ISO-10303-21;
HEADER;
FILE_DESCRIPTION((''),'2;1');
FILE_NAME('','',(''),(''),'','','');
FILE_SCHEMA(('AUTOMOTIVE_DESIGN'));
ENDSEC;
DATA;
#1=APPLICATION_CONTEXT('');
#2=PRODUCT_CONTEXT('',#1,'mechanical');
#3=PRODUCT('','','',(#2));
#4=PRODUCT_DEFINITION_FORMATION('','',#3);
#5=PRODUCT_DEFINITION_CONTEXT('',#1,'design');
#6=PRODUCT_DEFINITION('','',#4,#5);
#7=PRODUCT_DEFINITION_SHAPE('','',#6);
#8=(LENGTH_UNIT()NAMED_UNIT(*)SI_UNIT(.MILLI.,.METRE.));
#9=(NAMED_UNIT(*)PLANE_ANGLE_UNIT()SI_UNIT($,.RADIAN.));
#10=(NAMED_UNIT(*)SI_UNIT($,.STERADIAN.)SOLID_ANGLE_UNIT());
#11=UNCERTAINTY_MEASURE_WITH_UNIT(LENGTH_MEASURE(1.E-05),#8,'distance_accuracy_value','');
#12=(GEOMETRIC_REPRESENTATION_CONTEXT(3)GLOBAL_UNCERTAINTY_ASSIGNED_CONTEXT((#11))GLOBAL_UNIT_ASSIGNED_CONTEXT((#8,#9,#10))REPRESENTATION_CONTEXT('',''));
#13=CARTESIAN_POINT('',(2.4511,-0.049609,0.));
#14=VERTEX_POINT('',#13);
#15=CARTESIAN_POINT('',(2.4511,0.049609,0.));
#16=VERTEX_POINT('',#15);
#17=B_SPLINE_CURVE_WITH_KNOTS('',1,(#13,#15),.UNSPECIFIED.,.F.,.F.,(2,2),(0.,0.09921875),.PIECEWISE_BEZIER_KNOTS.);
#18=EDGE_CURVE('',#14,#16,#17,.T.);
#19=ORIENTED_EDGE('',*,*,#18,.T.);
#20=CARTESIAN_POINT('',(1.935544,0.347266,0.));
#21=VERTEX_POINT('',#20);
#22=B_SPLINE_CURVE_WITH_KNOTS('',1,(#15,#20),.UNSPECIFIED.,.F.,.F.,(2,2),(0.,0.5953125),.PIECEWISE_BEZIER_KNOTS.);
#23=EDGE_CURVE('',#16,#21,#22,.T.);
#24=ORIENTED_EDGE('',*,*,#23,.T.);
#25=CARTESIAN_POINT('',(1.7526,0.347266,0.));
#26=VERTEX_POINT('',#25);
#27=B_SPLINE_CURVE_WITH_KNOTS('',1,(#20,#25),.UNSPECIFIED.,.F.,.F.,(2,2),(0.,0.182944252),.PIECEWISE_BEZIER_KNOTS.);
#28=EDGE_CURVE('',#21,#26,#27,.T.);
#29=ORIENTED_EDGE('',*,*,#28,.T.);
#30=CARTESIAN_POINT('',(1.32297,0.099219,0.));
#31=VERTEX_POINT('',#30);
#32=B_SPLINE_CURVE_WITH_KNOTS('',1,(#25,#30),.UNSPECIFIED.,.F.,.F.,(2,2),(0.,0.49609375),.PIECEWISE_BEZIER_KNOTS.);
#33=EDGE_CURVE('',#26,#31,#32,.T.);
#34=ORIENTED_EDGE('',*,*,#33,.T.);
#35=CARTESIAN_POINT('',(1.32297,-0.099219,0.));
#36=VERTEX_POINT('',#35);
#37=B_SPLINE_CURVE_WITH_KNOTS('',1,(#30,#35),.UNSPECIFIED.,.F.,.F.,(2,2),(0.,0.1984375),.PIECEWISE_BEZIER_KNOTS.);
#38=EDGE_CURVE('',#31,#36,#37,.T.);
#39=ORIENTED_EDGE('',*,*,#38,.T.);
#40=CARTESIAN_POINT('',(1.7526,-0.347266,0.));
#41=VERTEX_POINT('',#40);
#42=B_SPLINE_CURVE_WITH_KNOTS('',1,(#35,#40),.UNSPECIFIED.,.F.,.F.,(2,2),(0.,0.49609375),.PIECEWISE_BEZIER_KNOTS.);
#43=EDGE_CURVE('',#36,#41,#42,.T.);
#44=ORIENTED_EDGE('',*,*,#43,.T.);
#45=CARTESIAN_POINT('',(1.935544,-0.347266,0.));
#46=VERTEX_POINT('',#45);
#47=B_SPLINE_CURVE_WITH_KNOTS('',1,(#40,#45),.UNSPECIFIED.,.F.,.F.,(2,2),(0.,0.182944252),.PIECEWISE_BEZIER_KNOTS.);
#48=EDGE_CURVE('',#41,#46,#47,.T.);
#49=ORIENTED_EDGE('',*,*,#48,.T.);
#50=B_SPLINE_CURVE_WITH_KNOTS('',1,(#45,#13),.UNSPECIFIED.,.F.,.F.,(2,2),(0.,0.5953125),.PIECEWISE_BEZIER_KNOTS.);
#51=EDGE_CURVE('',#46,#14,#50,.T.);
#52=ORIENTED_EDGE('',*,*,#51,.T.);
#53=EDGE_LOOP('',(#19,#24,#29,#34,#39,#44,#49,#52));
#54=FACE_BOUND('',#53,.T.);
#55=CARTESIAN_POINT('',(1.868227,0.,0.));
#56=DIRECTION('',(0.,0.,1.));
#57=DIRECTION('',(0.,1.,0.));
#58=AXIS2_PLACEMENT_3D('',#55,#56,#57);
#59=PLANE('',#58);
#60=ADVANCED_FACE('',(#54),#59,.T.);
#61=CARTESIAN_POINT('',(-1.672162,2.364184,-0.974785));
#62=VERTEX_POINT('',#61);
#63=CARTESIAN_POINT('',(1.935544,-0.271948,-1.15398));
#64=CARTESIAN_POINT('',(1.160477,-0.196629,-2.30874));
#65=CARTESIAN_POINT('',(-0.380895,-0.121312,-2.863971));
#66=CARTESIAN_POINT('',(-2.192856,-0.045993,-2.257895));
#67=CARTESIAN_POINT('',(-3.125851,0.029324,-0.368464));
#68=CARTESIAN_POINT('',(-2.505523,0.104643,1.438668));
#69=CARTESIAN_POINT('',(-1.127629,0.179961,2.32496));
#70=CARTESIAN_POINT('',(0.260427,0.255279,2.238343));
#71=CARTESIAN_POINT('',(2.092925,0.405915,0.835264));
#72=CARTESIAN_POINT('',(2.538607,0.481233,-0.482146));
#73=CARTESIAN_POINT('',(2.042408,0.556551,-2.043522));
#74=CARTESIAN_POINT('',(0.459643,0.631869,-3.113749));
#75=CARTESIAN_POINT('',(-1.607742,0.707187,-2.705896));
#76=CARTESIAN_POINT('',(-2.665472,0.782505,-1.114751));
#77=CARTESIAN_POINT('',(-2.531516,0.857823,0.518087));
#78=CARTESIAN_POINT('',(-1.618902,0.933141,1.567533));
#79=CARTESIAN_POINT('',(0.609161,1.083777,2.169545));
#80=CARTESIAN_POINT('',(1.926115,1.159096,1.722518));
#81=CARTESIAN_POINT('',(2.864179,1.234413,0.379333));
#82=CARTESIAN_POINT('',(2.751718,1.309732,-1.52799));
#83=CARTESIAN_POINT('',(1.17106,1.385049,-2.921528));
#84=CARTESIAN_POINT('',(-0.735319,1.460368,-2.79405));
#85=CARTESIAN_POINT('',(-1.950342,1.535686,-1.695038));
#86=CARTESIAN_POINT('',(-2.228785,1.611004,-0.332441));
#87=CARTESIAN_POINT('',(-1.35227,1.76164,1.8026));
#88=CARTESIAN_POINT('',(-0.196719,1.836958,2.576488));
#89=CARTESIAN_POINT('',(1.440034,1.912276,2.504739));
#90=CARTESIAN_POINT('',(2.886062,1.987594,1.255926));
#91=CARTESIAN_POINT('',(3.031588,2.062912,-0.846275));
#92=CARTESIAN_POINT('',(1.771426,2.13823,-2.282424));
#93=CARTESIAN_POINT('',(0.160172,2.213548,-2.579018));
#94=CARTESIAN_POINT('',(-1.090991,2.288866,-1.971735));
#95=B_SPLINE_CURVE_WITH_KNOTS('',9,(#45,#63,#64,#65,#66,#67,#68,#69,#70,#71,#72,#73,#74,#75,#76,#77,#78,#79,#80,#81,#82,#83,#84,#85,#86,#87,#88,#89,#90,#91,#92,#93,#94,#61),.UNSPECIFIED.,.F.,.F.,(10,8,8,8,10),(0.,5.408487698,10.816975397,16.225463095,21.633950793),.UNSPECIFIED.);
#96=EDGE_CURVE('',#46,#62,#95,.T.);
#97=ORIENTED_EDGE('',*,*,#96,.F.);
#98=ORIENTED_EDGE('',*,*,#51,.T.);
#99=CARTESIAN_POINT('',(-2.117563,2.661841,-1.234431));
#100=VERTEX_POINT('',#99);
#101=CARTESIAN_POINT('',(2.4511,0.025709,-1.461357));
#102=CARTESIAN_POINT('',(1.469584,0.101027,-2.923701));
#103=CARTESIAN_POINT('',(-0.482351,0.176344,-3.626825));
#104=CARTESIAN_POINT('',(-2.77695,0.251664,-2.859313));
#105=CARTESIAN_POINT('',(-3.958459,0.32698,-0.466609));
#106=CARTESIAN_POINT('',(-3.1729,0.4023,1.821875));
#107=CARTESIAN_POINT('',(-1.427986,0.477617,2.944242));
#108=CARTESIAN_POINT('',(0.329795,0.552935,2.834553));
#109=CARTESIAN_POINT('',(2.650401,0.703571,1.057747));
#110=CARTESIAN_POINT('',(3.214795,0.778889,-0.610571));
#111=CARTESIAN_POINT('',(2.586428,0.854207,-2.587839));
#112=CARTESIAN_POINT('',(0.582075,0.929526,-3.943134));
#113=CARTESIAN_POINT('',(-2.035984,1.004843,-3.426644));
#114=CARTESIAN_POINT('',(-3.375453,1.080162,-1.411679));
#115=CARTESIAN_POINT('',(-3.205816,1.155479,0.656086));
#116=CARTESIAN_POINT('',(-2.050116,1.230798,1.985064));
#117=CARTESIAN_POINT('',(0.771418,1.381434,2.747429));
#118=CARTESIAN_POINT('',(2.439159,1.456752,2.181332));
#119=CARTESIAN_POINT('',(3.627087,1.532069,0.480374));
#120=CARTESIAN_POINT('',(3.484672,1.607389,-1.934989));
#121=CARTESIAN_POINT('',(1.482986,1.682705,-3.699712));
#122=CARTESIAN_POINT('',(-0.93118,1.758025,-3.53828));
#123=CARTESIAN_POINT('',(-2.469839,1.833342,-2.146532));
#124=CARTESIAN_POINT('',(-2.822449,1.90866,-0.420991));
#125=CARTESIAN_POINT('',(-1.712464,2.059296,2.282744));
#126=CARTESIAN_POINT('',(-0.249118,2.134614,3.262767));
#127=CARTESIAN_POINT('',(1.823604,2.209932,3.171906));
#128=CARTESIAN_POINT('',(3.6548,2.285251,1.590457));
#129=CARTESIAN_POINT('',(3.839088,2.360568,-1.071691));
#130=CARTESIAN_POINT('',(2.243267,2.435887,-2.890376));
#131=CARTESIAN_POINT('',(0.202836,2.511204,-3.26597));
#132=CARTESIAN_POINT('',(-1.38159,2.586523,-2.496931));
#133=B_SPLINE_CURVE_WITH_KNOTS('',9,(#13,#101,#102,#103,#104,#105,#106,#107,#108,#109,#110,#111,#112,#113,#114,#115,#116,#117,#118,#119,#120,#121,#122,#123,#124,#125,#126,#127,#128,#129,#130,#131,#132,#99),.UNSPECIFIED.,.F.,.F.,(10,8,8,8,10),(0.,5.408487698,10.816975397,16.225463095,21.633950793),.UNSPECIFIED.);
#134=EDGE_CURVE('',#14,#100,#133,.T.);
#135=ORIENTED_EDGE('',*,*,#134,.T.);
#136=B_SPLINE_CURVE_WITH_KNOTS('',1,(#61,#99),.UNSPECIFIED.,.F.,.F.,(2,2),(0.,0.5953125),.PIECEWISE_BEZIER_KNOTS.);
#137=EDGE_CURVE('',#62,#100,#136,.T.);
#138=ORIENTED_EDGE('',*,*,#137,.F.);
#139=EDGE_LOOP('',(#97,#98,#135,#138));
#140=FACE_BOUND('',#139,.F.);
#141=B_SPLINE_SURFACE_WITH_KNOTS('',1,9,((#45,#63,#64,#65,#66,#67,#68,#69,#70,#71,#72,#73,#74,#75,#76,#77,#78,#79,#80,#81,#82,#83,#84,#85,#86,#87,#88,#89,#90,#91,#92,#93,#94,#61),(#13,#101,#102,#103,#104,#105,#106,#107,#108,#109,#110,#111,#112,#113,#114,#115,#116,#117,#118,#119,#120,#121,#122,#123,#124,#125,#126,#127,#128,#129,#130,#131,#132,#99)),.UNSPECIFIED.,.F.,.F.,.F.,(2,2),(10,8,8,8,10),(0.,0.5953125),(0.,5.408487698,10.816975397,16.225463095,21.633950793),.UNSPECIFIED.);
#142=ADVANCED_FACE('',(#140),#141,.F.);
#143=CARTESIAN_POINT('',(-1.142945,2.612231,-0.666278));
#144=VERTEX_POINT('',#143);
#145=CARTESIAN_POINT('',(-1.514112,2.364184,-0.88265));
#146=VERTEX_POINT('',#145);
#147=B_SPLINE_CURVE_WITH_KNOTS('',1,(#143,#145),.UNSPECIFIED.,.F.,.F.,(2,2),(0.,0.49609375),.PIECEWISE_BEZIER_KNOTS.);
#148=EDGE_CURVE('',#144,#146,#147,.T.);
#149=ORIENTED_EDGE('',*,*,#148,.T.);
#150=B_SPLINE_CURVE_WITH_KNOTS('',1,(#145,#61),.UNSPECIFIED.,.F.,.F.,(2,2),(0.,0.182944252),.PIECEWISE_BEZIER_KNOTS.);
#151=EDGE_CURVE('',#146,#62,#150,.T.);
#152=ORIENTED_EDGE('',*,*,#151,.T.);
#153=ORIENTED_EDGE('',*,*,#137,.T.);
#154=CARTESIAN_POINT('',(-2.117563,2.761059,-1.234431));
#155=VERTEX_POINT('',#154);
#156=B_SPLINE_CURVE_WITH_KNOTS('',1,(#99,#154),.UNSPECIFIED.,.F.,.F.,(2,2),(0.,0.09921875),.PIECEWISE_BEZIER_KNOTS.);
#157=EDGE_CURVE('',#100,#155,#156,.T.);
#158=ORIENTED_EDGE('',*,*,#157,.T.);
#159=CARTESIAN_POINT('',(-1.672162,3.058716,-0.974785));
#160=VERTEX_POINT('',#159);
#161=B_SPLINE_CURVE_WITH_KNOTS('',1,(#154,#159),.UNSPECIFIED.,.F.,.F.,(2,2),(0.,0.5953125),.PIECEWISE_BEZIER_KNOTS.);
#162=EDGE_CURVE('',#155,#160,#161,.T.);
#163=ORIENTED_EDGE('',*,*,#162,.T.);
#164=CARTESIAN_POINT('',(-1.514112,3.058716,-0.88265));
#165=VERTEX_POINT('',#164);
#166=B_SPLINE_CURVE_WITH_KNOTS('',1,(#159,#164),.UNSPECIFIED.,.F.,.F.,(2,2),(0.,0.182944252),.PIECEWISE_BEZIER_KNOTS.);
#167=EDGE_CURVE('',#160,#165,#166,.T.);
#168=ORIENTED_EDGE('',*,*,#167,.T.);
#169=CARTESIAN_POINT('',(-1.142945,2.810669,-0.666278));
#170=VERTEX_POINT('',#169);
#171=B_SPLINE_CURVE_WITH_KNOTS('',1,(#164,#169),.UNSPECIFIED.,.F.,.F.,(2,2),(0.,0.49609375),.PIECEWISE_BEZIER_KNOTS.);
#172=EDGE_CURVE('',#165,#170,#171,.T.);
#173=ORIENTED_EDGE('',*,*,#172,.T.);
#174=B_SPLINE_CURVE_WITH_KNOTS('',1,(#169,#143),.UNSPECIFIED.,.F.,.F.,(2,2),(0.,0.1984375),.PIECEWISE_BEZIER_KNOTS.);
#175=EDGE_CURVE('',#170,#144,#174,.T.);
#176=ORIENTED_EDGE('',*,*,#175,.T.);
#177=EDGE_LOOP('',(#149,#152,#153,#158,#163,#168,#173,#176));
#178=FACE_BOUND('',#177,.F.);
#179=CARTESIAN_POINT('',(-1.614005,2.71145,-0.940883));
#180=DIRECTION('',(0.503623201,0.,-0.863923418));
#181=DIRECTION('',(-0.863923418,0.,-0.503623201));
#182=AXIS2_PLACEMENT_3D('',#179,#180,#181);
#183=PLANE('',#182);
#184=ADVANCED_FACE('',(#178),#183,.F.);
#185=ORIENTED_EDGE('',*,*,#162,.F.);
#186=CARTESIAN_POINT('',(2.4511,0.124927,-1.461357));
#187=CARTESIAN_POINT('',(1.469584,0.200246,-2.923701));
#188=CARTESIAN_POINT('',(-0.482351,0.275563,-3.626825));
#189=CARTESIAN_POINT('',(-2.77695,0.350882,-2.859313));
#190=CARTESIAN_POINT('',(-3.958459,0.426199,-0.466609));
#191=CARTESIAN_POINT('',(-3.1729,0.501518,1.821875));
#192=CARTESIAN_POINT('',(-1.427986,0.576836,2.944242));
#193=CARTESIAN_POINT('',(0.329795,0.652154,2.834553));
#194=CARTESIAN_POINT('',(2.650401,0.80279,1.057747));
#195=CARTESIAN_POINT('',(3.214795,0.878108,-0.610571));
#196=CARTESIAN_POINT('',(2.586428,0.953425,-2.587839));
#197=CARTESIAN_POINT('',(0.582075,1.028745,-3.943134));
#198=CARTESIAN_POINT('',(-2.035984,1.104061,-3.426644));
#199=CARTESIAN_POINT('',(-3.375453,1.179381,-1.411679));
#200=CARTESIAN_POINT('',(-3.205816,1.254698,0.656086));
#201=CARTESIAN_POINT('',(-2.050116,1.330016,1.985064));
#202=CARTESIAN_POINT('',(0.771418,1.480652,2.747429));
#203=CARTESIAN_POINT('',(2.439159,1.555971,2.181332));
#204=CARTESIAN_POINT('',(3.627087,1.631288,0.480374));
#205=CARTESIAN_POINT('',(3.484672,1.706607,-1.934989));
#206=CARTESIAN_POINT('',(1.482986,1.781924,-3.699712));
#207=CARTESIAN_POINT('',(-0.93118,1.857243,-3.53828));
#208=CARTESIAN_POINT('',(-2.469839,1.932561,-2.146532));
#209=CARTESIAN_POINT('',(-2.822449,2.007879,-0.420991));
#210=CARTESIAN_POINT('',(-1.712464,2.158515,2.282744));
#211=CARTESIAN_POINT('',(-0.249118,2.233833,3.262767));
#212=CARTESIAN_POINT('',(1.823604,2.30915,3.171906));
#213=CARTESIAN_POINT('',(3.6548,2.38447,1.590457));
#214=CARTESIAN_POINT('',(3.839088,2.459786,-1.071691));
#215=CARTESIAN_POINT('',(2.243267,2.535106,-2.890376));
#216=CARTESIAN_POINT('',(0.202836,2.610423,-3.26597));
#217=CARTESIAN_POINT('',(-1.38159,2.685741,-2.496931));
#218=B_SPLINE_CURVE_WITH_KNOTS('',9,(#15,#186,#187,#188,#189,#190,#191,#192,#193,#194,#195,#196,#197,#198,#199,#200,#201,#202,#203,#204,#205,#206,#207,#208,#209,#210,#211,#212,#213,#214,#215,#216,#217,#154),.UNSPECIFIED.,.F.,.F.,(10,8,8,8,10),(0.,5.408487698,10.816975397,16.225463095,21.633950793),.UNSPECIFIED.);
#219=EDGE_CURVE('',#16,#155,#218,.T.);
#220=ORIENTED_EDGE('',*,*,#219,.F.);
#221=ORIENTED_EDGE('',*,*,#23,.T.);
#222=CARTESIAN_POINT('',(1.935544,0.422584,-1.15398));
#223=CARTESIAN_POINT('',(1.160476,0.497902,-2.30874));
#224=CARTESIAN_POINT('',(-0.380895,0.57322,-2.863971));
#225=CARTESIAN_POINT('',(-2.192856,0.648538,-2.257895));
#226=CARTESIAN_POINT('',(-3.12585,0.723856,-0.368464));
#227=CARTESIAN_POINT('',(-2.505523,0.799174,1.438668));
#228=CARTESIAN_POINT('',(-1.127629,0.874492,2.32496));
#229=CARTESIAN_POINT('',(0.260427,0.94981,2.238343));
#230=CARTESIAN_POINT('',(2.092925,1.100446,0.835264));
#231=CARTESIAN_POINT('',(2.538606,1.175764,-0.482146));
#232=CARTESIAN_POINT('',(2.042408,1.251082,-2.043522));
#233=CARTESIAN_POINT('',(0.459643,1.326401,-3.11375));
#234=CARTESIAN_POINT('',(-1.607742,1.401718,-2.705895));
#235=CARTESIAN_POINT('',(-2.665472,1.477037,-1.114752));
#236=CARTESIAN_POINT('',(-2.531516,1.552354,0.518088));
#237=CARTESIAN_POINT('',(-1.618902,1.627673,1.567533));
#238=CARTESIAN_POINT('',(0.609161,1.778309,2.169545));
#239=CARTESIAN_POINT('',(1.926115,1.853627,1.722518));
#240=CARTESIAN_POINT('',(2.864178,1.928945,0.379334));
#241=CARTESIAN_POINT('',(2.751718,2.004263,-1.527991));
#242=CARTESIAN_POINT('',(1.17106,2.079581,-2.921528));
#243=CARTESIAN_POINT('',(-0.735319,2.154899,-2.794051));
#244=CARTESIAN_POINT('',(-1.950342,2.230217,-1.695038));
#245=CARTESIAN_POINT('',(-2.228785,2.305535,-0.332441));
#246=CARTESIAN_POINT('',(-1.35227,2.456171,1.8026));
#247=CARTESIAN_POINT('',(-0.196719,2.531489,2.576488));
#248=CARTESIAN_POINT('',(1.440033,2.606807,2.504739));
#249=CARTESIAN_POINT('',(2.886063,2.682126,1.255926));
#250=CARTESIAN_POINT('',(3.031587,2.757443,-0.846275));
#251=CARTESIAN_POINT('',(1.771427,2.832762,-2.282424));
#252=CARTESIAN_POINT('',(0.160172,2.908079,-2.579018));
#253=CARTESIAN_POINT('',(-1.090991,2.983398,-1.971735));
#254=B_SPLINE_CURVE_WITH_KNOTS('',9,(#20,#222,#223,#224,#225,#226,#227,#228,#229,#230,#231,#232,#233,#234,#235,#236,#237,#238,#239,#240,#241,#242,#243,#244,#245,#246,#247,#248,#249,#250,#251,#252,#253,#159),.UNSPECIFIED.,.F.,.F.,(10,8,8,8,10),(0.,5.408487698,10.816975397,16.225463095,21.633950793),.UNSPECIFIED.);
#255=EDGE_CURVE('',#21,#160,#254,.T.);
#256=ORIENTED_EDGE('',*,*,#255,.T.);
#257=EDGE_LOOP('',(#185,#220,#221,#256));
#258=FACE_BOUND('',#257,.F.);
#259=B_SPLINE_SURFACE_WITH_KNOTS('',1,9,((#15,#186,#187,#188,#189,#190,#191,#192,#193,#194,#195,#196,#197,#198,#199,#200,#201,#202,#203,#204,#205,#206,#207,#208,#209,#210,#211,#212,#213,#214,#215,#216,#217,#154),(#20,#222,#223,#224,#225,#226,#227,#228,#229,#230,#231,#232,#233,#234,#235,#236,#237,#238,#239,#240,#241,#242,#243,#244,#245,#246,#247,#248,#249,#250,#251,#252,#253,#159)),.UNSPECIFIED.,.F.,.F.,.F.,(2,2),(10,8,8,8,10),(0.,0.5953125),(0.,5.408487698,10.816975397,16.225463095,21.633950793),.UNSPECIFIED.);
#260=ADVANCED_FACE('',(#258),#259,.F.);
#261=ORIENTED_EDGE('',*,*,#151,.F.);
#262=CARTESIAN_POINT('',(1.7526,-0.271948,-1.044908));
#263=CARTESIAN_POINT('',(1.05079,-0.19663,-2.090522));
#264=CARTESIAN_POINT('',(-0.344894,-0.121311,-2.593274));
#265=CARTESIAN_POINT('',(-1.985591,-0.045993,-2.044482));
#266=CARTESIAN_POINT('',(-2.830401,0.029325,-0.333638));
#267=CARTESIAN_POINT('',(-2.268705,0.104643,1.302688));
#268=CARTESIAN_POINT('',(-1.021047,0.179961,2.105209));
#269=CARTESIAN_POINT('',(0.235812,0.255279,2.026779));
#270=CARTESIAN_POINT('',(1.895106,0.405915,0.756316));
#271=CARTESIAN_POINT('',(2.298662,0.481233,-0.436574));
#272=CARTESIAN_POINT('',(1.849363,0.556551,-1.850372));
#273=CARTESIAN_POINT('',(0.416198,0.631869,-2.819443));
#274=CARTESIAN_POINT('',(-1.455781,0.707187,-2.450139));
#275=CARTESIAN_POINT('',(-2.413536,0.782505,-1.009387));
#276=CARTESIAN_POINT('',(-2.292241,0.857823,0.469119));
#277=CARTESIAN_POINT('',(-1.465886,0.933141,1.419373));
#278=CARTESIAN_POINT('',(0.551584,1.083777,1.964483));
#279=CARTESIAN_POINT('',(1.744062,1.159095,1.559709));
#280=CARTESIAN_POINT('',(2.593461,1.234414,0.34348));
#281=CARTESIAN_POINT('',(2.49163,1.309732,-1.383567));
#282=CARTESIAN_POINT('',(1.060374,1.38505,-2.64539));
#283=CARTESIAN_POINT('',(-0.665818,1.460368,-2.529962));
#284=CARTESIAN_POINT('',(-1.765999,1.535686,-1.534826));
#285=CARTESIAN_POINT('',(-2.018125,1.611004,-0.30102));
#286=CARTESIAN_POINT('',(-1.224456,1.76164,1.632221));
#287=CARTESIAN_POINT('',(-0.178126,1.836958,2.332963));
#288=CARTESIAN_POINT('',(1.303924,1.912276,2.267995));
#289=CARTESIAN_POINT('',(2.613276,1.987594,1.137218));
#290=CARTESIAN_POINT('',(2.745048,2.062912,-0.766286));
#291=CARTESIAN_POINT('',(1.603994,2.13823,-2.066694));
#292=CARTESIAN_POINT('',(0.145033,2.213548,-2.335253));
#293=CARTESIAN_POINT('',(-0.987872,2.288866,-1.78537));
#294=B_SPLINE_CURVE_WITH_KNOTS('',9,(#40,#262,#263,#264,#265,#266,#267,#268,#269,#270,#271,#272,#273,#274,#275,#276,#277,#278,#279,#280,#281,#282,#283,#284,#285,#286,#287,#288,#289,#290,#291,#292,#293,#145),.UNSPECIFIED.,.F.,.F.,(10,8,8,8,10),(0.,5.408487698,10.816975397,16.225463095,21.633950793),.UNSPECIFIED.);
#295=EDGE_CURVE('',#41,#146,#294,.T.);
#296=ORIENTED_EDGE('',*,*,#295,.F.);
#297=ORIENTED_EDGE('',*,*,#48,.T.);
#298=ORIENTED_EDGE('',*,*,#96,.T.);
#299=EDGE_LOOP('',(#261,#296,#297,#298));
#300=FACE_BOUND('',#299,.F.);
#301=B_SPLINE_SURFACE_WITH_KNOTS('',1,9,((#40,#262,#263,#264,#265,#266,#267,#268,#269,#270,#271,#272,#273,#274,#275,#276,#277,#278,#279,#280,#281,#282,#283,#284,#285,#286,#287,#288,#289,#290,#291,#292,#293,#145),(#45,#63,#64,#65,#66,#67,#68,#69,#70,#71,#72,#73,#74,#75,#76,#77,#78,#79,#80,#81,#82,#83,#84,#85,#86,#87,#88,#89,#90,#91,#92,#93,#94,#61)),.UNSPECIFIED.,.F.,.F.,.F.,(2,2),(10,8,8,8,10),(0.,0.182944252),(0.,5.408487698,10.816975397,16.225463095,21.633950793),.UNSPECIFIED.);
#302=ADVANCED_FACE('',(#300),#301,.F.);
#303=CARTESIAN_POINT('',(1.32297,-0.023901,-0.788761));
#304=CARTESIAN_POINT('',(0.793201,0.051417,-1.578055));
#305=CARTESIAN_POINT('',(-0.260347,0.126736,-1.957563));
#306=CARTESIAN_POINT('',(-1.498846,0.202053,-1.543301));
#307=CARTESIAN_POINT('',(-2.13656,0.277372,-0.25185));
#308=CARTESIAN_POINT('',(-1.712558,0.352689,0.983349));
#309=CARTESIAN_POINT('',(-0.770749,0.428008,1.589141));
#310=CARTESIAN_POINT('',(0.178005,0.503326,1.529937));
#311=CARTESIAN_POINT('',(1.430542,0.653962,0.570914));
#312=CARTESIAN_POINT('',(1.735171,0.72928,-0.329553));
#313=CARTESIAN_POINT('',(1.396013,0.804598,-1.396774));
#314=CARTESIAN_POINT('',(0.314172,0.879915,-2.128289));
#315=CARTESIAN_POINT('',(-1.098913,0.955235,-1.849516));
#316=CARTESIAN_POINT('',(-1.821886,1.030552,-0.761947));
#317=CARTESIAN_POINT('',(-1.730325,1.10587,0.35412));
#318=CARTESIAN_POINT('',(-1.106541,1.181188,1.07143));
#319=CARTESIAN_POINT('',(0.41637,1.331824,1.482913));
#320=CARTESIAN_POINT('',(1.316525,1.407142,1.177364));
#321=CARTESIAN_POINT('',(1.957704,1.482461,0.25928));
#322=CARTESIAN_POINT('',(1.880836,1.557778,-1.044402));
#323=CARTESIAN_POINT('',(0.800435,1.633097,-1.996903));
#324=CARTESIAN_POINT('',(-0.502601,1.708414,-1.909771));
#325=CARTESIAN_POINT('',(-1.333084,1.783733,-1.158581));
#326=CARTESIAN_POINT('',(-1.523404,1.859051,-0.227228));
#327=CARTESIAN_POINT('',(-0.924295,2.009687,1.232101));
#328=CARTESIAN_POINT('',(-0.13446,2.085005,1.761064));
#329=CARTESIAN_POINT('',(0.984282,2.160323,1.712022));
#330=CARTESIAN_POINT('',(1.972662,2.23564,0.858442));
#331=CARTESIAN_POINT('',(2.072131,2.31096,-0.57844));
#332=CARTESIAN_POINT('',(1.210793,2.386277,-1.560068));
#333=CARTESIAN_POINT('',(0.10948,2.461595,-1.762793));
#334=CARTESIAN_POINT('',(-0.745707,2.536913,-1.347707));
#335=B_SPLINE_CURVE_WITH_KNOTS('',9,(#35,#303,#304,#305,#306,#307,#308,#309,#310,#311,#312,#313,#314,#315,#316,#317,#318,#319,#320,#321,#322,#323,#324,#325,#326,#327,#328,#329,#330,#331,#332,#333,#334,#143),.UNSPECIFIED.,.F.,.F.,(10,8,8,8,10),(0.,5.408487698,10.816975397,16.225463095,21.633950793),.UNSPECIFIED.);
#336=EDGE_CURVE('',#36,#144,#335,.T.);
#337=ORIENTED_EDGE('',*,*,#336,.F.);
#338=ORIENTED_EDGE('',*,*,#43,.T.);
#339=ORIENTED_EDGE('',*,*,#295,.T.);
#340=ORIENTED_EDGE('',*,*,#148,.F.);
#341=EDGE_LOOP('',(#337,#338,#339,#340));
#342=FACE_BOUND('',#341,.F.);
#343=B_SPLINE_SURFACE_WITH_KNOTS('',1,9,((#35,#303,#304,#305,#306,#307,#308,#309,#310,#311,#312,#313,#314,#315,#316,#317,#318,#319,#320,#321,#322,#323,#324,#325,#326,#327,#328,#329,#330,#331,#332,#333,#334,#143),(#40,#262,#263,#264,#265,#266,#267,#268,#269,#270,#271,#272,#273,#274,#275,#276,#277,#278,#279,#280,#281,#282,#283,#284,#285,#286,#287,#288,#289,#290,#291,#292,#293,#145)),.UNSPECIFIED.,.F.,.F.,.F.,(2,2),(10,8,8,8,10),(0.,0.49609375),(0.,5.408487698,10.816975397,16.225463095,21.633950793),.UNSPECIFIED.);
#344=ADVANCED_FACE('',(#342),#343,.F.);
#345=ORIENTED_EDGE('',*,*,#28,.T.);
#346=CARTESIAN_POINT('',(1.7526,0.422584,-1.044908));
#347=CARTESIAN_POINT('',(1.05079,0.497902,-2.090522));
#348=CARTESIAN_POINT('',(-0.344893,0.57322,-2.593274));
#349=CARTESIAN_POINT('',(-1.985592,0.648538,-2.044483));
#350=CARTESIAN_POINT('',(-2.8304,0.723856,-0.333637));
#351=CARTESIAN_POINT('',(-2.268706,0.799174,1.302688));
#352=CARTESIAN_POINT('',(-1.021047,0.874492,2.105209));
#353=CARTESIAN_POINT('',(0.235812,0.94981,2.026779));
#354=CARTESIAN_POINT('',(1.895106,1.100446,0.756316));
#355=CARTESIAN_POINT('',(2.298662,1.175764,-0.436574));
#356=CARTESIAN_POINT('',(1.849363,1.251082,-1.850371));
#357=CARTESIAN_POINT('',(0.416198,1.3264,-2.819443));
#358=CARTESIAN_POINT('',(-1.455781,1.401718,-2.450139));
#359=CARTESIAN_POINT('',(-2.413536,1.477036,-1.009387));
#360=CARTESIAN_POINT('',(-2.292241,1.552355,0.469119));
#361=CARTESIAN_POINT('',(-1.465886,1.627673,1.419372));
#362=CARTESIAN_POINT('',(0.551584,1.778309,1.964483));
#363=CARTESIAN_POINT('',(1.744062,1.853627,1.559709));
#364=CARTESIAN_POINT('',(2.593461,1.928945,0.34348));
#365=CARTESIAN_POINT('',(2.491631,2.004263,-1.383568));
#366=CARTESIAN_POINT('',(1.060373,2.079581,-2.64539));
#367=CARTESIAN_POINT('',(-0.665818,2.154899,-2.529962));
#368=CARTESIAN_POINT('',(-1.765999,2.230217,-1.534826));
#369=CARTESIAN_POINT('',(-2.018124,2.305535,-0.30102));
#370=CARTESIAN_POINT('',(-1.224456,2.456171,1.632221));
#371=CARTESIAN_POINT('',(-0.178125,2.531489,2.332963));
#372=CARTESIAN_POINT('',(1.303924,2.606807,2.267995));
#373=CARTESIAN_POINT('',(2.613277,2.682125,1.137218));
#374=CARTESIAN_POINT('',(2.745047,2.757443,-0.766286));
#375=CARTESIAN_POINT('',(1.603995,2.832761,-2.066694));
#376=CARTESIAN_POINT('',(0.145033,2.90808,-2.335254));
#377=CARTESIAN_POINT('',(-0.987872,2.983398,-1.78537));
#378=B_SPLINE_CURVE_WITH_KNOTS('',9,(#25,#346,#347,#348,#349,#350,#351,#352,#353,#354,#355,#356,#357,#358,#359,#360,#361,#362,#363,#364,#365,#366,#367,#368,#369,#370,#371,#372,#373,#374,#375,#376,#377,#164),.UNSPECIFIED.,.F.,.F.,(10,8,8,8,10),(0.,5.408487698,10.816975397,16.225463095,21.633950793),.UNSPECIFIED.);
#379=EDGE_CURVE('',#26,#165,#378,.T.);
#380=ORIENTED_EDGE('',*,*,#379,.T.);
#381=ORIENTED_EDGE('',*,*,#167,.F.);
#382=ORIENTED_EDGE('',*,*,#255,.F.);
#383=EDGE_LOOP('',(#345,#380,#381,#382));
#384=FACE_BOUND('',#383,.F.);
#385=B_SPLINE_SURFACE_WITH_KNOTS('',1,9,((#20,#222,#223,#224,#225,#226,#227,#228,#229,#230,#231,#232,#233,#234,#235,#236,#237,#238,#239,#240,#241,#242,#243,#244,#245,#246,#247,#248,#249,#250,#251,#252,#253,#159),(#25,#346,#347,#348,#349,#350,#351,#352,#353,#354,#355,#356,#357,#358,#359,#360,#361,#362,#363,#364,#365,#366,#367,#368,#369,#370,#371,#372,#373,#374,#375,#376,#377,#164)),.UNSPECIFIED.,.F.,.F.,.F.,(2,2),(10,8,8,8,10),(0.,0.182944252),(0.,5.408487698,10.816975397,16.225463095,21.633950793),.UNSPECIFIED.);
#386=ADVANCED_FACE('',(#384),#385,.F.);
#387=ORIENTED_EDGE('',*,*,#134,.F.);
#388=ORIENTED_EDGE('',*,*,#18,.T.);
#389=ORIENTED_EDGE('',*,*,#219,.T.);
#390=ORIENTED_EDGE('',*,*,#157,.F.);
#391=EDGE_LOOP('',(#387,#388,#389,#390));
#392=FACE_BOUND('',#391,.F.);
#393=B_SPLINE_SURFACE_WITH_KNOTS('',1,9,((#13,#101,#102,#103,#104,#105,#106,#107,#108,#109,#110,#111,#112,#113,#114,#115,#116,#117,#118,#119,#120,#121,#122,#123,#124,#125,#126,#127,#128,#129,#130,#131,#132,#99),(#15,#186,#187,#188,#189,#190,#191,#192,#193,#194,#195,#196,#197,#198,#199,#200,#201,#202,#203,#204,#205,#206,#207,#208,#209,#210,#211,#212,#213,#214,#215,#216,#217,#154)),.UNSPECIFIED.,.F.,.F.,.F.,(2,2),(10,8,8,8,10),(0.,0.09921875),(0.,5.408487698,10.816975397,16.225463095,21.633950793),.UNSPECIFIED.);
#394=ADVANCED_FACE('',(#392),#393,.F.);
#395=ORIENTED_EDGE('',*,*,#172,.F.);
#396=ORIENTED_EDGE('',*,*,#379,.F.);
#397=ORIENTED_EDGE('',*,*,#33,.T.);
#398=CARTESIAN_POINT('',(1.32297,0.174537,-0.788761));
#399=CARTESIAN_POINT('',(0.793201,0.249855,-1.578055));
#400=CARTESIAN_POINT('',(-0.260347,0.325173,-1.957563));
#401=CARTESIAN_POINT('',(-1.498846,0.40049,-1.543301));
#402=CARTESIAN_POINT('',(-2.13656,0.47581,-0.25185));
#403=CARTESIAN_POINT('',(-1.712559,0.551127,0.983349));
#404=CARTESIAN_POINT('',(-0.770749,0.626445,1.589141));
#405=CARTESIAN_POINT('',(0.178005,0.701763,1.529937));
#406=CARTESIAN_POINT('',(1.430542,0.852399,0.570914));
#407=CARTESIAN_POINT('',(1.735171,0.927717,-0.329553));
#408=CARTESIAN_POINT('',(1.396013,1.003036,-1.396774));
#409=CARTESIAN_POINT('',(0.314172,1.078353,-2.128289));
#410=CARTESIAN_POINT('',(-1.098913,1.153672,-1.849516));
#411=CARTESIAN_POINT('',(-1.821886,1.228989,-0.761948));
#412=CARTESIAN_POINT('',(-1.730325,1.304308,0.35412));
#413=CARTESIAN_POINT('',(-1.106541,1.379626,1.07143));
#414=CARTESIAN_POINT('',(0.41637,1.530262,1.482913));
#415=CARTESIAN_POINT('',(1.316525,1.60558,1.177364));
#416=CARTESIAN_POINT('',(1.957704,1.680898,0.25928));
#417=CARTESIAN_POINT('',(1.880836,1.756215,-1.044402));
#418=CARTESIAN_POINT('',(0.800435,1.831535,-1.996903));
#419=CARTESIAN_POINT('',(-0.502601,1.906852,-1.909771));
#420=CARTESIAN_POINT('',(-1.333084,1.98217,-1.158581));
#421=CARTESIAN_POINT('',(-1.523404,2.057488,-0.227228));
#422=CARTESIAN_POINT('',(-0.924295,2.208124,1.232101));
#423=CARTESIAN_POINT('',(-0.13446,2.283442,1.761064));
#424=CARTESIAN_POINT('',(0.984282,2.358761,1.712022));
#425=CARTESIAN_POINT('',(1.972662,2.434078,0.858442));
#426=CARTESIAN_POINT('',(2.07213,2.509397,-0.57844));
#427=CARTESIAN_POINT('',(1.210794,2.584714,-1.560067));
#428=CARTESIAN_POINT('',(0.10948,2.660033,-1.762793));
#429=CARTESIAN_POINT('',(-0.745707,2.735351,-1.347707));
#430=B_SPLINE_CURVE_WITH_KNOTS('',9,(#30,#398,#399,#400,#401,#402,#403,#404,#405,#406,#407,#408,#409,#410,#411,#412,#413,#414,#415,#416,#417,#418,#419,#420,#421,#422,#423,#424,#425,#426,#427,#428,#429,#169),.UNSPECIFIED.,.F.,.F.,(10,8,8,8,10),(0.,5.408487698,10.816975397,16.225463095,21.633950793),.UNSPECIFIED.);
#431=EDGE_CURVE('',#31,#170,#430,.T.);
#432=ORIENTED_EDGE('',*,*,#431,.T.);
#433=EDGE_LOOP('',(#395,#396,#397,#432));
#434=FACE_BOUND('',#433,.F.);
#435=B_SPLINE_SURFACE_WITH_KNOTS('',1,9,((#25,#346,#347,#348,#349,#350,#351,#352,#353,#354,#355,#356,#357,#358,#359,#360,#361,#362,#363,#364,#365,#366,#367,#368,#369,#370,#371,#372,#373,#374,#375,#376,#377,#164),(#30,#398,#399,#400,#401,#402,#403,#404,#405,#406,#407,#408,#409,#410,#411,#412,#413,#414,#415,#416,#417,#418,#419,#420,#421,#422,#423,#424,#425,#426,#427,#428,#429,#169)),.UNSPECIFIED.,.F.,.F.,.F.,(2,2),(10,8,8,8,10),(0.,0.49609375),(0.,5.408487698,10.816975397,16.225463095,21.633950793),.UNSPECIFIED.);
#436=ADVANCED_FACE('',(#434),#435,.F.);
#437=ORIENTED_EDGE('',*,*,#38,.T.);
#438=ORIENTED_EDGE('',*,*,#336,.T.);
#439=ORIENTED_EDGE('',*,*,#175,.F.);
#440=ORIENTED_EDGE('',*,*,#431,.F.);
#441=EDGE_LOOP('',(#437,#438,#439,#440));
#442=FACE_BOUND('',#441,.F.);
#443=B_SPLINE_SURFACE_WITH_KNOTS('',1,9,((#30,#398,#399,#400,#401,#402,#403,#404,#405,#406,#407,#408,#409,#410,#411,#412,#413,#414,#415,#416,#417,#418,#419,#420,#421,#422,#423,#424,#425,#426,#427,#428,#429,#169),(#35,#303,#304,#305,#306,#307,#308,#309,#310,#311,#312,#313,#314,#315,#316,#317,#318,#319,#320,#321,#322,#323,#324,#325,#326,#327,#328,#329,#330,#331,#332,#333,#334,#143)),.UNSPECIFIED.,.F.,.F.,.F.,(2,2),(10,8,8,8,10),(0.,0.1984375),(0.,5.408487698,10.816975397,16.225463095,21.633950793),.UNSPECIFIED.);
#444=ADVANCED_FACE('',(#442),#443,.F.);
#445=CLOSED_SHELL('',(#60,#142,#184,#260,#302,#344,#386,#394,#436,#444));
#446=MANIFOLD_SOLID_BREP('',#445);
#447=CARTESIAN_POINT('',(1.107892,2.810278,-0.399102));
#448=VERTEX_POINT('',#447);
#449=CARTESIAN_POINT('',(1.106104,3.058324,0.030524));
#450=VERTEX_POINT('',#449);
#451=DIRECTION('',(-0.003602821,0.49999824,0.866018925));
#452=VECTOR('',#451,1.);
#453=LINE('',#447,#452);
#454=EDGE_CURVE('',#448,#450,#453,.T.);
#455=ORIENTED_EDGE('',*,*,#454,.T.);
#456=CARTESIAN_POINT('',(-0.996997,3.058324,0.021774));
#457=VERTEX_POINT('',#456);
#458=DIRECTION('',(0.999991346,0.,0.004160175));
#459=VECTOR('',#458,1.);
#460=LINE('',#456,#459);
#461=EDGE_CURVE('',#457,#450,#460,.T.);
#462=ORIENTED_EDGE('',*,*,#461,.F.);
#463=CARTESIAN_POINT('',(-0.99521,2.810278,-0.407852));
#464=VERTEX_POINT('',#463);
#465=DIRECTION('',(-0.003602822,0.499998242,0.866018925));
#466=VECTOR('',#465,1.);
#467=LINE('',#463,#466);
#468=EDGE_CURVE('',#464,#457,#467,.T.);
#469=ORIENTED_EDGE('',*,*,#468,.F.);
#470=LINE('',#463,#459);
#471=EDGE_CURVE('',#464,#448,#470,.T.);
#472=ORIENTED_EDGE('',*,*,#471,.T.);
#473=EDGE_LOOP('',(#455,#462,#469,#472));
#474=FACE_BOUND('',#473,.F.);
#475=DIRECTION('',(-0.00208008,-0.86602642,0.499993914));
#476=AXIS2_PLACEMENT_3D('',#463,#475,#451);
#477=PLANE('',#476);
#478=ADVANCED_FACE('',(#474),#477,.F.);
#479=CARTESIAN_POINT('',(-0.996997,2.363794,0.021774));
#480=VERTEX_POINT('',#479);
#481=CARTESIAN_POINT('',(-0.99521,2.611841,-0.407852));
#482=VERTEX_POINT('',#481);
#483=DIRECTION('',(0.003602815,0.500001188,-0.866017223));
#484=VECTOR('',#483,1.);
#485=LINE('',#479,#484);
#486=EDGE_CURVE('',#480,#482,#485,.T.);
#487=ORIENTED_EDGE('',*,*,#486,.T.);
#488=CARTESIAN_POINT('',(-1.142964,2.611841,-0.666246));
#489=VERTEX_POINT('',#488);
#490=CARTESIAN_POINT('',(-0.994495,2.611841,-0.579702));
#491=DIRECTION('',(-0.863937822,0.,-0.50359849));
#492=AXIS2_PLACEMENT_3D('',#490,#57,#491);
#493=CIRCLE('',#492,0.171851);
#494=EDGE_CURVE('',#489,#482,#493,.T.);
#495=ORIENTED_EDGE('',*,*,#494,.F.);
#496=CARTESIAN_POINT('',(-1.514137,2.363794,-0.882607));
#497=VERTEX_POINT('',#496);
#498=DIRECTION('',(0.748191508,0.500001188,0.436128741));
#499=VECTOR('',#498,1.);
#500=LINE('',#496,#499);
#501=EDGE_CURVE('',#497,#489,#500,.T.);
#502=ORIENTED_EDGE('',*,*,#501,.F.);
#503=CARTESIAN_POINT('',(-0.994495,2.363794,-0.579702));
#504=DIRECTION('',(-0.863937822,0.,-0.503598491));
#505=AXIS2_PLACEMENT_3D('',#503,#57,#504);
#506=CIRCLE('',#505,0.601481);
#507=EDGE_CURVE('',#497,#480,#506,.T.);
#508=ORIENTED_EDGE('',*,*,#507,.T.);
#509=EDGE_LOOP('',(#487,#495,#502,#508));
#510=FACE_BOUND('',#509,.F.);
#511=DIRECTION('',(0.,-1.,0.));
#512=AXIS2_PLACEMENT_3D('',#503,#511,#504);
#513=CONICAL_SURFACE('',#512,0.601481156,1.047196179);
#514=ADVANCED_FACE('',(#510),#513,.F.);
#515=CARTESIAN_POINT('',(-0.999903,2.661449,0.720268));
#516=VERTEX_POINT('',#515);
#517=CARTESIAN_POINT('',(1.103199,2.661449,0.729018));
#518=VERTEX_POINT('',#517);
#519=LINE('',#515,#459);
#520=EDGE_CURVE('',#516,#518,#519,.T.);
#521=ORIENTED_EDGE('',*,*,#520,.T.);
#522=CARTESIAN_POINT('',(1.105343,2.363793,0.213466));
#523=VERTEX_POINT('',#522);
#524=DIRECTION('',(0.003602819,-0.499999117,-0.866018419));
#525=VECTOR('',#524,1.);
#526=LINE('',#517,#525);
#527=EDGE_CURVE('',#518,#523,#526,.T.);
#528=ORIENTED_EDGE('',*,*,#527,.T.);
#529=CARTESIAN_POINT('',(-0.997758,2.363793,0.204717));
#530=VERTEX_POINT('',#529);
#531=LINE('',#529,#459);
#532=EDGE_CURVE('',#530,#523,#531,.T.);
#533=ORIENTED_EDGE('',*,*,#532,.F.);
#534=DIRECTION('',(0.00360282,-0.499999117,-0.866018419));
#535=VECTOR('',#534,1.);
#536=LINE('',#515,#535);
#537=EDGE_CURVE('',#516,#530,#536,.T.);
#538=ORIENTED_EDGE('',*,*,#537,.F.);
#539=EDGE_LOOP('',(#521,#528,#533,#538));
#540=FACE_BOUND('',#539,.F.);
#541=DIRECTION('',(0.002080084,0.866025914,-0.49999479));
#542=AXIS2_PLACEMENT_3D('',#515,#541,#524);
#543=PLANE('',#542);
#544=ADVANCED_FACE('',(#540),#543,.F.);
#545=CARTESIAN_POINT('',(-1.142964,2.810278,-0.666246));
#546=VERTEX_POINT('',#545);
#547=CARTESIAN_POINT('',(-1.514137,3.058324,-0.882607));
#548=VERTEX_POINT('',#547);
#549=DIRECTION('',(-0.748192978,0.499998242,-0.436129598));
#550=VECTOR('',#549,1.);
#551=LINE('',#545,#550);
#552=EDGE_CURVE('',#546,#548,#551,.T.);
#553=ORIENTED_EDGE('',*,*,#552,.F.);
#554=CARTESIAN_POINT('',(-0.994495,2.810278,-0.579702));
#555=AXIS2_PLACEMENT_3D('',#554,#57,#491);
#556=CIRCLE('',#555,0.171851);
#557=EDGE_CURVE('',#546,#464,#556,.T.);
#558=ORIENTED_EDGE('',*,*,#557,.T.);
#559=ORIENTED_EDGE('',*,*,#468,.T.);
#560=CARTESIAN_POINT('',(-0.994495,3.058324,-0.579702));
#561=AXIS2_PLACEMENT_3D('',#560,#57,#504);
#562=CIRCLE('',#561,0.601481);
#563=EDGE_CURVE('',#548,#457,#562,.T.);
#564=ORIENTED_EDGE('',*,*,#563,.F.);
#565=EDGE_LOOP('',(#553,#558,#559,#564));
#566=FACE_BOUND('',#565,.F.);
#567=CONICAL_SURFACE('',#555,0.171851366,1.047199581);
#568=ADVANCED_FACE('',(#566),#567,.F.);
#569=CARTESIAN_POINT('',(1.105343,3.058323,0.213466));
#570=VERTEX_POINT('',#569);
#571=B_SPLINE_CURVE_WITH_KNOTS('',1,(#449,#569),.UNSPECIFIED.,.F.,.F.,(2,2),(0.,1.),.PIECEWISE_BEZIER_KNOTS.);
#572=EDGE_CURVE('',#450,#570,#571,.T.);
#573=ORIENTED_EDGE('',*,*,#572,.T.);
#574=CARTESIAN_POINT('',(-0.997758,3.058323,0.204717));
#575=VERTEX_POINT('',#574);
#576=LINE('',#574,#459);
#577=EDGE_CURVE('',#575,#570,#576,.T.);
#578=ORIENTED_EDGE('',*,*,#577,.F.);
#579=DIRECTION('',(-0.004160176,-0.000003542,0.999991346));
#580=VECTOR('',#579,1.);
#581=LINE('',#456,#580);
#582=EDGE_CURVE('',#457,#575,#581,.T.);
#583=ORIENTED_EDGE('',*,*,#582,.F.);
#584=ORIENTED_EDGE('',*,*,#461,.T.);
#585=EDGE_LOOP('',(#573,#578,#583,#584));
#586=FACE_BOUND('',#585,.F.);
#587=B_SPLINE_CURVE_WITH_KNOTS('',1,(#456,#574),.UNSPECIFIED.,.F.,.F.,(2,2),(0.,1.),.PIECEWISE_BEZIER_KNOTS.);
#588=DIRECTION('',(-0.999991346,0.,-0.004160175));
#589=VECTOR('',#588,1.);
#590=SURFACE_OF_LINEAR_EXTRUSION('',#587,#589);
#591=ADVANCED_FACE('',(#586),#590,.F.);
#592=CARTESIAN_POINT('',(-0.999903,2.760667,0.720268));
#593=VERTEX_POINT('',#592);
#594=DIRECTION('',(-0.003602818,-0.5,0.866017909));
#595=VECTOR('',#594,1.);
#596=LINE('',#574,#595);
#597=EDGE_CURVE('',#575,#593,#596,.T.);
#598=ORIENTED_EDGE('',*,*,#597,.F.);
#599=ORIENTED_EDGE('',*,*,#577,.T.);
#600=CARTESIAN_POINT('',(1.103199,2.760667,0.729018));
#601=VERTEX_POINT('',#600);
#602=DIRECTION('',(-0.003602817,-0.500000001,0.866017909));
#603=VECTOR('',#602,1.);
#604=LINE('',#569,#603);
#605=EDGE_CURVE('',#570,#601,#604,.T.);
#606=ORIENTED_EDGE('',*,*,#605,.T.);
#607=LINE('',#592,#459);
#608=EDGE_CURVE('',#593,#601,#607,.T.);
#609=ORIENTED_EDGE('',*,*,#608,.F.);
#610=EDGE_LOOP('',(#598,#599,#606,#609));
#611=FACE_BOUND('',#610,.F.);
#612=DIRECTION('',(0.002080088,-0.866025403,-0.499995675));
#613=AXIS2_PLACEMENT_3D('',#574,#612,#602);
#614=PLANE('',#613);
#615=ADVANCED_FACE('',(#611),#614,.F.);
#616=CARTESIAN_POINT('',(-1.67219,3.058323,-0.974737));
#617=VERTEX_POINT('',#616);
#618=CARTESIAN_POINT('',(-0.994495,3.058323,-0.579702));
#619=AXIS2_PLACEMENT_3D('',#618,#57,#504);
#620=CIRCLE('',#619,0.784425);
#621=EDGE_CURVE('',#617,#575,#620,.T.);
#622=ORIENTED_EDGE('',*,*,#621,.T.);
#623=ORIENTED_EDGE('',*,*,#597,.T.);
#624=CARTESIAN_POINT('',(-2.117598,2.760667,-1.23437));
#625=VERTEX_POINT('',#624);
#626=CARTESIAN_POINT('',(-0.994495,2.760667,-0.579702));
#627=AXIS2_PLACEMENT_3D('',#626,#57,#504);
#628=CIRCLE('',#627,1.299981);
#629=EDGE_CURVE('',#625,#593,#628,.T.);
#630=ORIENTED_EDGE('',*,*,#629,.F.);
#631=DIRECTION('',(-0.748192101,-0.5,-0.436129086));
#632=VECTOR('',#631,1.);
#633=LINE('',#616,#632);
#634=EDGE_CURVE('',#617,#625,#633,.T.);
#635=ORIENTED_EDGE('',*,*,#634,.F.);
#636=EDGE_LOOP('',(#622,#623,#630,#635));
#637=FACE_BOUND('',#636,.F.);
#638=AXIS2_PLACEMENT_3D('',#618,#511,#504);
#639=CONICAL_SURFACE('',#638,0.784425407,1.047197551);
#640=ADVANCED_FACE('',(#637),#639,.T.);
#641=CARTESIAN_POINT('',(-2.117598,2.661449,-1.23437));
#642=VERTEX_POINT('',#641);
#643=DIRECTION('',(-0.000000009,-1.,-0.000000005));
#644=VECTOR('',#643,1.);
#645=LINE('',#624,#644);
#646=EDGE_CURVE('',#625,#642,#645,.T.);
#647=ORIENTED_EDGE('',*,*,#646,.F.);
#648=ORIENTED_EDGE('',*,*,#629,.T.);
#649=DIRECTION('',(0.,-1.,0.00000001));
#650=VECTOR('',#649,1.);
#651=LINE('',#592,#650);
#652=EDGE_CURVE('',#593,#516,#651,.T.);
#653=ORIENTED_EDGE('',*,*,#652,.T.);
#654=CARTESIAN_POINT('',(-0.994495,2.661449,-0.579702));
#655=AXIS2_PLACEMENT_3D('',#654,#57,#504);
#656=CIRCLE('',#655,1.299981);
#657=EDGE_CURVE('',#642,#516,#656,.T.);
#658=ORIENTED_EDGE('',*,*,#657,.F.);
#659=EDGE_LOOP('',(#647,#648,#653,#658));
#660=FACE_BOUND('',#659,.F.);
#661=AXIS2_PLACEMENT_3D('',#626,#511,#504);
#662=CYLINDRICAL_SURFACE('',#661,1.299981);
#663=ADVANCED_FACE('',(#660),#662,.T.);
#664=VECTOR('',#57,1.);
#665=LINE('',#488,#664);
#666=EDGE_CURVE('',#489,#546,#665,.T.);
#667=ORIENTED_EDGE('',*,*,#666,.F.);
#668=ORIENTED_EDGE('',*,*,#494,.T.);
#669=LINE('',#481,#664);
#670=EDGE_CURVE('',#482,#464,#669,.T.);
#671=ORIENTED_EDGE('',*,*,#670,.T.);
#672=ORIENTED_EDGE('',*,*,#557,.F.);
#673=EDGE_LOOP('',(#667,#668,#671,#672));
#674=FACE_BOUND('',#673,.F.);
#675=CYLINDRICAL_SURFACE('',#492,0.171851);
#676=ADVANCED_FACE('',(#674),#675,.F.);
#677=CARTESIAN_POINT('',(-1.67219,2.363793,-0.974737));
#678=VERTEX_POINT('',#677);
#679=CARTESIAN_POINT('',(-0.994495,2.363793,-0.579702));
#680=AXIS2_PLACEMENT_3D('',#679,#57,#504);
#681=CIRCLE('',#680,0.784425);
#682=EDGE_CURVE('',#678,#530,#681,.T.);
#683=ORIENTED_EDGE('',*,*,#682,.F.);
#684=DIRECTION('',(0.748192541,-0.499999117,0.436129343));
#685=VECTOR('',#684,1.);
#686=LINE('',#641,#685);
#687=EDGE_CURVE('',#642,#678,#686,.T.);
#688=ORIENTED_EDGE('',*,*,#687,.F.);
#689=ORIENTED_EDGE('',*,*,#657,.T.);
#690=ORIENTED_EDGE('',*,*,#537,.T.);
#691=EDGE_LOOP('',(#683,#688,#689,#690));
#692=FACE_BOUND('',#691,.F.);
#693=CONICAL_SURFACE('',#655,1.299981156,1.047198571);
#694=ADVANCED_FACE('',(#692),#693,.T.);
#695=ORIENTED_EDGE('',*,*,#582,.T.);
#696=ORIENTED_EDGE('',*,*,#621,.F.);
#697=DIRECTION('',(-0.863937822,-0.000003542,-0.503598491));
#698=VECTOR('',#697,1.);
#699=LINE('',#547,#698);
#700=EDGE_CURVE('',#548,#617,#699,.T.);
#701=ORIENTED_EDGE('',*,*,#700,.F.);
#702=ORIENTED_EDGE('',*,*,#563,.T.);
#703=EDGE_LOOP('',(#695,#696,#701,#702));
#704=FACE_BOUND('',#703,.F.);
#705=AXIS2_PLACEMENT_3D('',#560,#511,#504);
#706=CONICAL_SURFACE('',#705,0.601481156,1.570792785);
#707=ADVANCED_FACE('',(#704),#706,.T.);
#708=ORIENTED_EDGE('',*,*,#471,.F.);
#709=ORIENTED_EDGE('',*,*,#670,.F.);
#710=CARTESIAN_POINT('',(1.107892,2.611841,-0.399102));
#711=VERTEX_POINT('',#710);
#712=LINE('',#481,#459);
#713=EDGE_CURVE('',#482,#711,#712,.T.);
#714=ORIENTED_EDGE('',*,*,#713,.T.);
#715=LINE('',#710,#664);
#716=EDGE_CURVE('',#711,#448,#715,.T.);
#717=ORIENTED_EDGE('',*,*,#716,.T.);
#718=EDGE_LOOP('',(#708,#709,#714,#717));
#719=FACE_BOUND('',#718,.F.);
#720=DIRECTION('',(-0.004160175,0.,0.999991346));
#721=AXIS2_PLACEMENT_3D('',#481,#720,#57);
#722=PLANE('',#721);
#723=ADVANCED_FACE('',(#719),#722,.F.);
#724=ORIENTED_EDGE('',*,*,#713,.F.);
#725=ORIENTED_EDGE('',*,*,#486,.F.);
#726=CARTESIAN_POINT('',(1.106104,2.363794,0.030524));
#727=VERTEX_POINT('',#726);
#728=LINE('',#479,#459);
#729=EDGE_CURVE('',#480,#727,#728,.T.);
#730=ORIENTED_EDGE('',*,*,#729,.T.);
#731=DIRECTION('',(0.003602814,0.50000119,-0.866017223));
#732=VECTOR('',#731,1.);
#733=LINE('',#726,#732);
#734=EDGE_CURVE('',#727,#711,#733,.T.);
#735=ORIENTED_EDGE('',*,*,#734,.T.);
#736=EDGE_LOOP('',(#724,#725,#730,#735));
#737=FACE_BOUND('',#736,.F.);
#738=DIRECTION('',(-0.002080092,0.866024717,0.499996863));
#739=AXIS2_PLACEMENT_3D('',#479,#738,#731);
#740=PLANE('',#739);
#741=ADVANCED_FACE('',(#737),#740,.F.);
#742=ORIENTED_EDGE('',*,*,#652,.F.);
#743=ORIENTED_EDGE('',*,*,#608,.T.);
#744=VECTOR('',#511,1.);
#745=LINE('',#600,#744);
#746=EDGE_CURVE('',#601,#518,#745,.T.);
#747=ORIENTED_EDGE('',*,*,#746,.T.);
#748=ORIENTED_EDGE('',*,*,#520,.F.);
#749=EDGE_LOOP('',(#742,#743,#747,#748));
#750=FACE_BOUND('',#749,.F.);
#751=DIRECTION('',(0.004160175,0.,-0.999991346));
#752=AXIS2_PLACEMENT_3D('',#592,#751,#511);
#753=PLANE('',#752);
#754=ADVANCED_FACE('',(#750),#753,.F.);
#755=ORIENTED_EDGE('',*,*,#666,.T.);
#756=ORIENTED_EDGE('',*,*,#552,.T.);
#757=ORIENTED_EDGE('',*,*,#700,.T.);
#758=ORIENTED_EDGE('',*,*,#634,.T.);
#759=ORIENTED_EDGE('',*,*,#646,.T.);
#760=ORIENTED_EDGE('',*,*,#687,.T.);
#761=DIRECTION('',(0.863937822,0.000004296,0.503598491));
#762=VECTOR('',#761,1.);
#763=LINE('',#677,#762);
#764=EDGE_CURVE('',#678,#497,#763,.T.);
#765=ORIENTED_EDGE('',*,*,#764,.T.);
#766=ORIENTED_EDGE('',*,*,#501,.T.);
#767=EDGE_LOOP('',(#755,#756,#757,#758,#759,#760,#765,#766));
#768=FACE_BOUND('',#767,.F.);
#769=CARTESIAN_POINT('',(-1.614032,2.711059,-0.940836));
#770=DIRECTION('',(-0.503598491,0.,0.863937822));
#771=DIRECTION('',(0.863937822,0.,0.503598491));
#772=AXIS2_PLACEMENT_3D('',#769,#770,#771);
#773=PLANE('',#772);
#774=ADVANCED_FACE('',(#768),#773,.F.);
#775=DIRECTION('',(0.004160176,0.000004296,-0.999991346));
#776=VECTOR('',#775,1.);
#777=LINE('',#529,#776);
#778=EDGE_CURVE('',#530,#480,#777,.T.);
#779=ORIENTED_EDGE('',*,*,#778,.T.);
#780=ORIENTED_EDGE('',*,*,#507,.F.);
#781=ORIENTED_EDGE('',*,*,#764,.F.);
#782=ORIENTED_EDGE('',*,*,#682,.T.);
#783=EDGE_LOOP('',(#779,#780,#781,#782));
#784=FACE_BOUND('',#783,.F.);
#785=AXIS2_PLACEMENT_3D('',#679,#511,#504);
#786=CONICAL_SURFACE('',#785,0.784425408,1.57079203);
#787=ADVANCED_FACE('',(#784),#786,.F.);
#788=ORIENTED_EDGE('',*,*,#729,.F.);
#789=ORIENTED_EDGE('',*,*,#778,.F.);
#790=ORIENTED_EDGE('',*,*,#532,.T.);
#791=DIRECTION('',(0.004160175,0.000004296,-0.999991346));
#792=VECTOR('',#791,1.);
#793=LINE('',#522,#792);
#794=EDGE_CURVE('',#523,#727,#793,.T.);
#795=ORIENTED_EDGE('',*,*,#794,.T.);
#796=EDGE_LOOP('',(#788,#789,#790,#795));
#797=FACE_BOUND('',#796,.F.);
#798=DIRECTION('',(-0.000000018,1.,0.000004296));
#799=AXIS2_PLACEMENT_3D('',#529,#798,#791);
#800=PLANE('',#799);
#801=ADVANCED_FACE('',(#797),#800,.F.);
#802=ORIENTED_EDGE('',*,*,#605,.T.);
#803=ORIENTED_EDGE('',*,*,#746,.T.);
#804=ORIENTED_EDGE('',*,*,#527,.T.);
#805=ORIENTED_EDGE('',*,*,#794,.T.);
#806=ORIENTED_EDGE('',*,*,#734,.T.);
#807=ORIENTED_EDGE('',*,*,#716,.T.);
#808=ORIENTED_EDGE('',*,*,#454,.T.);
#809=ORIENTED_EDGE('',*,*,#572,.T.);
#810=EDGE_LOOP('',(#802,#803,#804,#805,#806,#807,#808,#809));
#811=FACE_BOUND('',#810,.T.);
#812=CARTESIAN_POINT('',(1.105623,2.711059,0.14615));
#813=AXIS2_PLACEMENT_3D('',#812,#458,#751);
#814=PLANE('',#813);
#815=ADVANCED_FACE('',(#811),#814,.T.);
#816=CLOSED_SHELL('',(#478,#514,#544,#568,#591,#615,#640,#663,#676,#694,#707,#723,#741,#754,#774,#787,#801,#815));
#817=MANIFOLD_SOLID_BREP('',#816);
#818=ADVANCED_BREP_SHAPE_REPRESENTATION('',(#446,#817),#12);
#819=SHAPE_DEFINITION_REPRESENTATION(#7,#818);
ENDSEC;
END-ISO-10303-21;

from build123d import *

# Parameters (mm, degrees)
SWEEP1_PITCH       = 0.79375
SWEEP1_HEIGHT      = 2.71145
SWEEP1_RADIUS      = 1.7526
SWEEP1_START_ANGLE = 90
REVOLVE1_ANGLE     = 120
EXTRUDE1_DEPTH     = 2.10312


with BuildPart() as part:
    # Sweep1: sweep along a helix
    with BuildLine() as sweep1_path:
        add(Helix(SWEEP1_PITCH, SWEEP1_HEIGHT, SWEEP1_RADIUS, center=(0, 0, 0), direction=(0, 1, 0), mode=Mode.PRIVATE).rotate(Axis((0, 0, 0), (0, 1, 0)), SWEEP1_START_ANGLE))
    # Sketch1 → Sweep1 (sweep)
    with BuildSketch(Plane(origin=(0, 0, 0), x_dir=(-1, 0, 0), z_dir=(0, 0, 1))):
        Polygon((-2.4511, -0.049609375), (-1.935544252, -0.347265625), (-1.7526, -0.347265625), (-1.32297021, -0.09921875), (-1.32297021, 0.09921875), (-1.7526, 0.347265625), (-1.935544252, 0.347265625), (-2.4511, 0.049609375), align=None)
    sweep(path=sweep1_path.line, is_frenet=True)


with BuildPart() as body_2:
    # Sketch3 → Revolve1 (revolve)
    with BuildSketch(Plane(origin=(0, 0, 0), x_dir=(0.863937822, 0, 0.503598491), z_dir=(-0.503598491, 0, 0.863937822))):
        Polygon((-1.7526, 2.363793834), (-1.32297021, 2.611841495), (-1.32297021, 2.810278209), (-1.7526, 3.058323921), (-1.935544251, 3.058323273), (-2.451099999, 2.760667023), (-2.4511, 2.661448597), (-1.935544252, 2.363793048), align=None)
    revolve(axis=Axis((-0.994495107, 2.711060242, -0.579701713), (0, 1, 0)), revolution_arc=REVOLVE1_ANGLE)

    # Sketch4 → Extrude1 (add)
    with BuildSketch(Plane(origin=(-0.996889536, 0, -0.004147271), x_dir=(0.004160175, 0, -0.999991346), z_dir=(0.999991346, 0, 0.004160175))):
        with BuildLine():
            Line((-0.208865986, 2.363793047), (-0.025921734, 2.363793833))
            Line((-0.025921734, 2.363793833), (0.403708056, 2.611841495))
            Line((0.403708056, 2.611841495), (0.403708056, 2.810278209))
            Line((0.403708056, 2.810278209), (-0.025921734, 3.05832392))
            add(Edge.make_bspline(
                [(-0.025921734, 3.05832392), (-0.208865986, 3.058323273)],
                knots=[0, 0, 1, 1], degree=1))
            Line((-0.208865986, 3.058323273), (-0.724421734, 2.760667022))
            Line((-0.724421734, 2.760667022), (-0.724421734, 2.661448596))
            Line((-0.724421734, 2.661448596), (-0.208865986, 2.363793047))
        make_face()
    extrude(amount=EXTRUDE1_DEPTH)


solid = Compound([part.part, body_2.part])
